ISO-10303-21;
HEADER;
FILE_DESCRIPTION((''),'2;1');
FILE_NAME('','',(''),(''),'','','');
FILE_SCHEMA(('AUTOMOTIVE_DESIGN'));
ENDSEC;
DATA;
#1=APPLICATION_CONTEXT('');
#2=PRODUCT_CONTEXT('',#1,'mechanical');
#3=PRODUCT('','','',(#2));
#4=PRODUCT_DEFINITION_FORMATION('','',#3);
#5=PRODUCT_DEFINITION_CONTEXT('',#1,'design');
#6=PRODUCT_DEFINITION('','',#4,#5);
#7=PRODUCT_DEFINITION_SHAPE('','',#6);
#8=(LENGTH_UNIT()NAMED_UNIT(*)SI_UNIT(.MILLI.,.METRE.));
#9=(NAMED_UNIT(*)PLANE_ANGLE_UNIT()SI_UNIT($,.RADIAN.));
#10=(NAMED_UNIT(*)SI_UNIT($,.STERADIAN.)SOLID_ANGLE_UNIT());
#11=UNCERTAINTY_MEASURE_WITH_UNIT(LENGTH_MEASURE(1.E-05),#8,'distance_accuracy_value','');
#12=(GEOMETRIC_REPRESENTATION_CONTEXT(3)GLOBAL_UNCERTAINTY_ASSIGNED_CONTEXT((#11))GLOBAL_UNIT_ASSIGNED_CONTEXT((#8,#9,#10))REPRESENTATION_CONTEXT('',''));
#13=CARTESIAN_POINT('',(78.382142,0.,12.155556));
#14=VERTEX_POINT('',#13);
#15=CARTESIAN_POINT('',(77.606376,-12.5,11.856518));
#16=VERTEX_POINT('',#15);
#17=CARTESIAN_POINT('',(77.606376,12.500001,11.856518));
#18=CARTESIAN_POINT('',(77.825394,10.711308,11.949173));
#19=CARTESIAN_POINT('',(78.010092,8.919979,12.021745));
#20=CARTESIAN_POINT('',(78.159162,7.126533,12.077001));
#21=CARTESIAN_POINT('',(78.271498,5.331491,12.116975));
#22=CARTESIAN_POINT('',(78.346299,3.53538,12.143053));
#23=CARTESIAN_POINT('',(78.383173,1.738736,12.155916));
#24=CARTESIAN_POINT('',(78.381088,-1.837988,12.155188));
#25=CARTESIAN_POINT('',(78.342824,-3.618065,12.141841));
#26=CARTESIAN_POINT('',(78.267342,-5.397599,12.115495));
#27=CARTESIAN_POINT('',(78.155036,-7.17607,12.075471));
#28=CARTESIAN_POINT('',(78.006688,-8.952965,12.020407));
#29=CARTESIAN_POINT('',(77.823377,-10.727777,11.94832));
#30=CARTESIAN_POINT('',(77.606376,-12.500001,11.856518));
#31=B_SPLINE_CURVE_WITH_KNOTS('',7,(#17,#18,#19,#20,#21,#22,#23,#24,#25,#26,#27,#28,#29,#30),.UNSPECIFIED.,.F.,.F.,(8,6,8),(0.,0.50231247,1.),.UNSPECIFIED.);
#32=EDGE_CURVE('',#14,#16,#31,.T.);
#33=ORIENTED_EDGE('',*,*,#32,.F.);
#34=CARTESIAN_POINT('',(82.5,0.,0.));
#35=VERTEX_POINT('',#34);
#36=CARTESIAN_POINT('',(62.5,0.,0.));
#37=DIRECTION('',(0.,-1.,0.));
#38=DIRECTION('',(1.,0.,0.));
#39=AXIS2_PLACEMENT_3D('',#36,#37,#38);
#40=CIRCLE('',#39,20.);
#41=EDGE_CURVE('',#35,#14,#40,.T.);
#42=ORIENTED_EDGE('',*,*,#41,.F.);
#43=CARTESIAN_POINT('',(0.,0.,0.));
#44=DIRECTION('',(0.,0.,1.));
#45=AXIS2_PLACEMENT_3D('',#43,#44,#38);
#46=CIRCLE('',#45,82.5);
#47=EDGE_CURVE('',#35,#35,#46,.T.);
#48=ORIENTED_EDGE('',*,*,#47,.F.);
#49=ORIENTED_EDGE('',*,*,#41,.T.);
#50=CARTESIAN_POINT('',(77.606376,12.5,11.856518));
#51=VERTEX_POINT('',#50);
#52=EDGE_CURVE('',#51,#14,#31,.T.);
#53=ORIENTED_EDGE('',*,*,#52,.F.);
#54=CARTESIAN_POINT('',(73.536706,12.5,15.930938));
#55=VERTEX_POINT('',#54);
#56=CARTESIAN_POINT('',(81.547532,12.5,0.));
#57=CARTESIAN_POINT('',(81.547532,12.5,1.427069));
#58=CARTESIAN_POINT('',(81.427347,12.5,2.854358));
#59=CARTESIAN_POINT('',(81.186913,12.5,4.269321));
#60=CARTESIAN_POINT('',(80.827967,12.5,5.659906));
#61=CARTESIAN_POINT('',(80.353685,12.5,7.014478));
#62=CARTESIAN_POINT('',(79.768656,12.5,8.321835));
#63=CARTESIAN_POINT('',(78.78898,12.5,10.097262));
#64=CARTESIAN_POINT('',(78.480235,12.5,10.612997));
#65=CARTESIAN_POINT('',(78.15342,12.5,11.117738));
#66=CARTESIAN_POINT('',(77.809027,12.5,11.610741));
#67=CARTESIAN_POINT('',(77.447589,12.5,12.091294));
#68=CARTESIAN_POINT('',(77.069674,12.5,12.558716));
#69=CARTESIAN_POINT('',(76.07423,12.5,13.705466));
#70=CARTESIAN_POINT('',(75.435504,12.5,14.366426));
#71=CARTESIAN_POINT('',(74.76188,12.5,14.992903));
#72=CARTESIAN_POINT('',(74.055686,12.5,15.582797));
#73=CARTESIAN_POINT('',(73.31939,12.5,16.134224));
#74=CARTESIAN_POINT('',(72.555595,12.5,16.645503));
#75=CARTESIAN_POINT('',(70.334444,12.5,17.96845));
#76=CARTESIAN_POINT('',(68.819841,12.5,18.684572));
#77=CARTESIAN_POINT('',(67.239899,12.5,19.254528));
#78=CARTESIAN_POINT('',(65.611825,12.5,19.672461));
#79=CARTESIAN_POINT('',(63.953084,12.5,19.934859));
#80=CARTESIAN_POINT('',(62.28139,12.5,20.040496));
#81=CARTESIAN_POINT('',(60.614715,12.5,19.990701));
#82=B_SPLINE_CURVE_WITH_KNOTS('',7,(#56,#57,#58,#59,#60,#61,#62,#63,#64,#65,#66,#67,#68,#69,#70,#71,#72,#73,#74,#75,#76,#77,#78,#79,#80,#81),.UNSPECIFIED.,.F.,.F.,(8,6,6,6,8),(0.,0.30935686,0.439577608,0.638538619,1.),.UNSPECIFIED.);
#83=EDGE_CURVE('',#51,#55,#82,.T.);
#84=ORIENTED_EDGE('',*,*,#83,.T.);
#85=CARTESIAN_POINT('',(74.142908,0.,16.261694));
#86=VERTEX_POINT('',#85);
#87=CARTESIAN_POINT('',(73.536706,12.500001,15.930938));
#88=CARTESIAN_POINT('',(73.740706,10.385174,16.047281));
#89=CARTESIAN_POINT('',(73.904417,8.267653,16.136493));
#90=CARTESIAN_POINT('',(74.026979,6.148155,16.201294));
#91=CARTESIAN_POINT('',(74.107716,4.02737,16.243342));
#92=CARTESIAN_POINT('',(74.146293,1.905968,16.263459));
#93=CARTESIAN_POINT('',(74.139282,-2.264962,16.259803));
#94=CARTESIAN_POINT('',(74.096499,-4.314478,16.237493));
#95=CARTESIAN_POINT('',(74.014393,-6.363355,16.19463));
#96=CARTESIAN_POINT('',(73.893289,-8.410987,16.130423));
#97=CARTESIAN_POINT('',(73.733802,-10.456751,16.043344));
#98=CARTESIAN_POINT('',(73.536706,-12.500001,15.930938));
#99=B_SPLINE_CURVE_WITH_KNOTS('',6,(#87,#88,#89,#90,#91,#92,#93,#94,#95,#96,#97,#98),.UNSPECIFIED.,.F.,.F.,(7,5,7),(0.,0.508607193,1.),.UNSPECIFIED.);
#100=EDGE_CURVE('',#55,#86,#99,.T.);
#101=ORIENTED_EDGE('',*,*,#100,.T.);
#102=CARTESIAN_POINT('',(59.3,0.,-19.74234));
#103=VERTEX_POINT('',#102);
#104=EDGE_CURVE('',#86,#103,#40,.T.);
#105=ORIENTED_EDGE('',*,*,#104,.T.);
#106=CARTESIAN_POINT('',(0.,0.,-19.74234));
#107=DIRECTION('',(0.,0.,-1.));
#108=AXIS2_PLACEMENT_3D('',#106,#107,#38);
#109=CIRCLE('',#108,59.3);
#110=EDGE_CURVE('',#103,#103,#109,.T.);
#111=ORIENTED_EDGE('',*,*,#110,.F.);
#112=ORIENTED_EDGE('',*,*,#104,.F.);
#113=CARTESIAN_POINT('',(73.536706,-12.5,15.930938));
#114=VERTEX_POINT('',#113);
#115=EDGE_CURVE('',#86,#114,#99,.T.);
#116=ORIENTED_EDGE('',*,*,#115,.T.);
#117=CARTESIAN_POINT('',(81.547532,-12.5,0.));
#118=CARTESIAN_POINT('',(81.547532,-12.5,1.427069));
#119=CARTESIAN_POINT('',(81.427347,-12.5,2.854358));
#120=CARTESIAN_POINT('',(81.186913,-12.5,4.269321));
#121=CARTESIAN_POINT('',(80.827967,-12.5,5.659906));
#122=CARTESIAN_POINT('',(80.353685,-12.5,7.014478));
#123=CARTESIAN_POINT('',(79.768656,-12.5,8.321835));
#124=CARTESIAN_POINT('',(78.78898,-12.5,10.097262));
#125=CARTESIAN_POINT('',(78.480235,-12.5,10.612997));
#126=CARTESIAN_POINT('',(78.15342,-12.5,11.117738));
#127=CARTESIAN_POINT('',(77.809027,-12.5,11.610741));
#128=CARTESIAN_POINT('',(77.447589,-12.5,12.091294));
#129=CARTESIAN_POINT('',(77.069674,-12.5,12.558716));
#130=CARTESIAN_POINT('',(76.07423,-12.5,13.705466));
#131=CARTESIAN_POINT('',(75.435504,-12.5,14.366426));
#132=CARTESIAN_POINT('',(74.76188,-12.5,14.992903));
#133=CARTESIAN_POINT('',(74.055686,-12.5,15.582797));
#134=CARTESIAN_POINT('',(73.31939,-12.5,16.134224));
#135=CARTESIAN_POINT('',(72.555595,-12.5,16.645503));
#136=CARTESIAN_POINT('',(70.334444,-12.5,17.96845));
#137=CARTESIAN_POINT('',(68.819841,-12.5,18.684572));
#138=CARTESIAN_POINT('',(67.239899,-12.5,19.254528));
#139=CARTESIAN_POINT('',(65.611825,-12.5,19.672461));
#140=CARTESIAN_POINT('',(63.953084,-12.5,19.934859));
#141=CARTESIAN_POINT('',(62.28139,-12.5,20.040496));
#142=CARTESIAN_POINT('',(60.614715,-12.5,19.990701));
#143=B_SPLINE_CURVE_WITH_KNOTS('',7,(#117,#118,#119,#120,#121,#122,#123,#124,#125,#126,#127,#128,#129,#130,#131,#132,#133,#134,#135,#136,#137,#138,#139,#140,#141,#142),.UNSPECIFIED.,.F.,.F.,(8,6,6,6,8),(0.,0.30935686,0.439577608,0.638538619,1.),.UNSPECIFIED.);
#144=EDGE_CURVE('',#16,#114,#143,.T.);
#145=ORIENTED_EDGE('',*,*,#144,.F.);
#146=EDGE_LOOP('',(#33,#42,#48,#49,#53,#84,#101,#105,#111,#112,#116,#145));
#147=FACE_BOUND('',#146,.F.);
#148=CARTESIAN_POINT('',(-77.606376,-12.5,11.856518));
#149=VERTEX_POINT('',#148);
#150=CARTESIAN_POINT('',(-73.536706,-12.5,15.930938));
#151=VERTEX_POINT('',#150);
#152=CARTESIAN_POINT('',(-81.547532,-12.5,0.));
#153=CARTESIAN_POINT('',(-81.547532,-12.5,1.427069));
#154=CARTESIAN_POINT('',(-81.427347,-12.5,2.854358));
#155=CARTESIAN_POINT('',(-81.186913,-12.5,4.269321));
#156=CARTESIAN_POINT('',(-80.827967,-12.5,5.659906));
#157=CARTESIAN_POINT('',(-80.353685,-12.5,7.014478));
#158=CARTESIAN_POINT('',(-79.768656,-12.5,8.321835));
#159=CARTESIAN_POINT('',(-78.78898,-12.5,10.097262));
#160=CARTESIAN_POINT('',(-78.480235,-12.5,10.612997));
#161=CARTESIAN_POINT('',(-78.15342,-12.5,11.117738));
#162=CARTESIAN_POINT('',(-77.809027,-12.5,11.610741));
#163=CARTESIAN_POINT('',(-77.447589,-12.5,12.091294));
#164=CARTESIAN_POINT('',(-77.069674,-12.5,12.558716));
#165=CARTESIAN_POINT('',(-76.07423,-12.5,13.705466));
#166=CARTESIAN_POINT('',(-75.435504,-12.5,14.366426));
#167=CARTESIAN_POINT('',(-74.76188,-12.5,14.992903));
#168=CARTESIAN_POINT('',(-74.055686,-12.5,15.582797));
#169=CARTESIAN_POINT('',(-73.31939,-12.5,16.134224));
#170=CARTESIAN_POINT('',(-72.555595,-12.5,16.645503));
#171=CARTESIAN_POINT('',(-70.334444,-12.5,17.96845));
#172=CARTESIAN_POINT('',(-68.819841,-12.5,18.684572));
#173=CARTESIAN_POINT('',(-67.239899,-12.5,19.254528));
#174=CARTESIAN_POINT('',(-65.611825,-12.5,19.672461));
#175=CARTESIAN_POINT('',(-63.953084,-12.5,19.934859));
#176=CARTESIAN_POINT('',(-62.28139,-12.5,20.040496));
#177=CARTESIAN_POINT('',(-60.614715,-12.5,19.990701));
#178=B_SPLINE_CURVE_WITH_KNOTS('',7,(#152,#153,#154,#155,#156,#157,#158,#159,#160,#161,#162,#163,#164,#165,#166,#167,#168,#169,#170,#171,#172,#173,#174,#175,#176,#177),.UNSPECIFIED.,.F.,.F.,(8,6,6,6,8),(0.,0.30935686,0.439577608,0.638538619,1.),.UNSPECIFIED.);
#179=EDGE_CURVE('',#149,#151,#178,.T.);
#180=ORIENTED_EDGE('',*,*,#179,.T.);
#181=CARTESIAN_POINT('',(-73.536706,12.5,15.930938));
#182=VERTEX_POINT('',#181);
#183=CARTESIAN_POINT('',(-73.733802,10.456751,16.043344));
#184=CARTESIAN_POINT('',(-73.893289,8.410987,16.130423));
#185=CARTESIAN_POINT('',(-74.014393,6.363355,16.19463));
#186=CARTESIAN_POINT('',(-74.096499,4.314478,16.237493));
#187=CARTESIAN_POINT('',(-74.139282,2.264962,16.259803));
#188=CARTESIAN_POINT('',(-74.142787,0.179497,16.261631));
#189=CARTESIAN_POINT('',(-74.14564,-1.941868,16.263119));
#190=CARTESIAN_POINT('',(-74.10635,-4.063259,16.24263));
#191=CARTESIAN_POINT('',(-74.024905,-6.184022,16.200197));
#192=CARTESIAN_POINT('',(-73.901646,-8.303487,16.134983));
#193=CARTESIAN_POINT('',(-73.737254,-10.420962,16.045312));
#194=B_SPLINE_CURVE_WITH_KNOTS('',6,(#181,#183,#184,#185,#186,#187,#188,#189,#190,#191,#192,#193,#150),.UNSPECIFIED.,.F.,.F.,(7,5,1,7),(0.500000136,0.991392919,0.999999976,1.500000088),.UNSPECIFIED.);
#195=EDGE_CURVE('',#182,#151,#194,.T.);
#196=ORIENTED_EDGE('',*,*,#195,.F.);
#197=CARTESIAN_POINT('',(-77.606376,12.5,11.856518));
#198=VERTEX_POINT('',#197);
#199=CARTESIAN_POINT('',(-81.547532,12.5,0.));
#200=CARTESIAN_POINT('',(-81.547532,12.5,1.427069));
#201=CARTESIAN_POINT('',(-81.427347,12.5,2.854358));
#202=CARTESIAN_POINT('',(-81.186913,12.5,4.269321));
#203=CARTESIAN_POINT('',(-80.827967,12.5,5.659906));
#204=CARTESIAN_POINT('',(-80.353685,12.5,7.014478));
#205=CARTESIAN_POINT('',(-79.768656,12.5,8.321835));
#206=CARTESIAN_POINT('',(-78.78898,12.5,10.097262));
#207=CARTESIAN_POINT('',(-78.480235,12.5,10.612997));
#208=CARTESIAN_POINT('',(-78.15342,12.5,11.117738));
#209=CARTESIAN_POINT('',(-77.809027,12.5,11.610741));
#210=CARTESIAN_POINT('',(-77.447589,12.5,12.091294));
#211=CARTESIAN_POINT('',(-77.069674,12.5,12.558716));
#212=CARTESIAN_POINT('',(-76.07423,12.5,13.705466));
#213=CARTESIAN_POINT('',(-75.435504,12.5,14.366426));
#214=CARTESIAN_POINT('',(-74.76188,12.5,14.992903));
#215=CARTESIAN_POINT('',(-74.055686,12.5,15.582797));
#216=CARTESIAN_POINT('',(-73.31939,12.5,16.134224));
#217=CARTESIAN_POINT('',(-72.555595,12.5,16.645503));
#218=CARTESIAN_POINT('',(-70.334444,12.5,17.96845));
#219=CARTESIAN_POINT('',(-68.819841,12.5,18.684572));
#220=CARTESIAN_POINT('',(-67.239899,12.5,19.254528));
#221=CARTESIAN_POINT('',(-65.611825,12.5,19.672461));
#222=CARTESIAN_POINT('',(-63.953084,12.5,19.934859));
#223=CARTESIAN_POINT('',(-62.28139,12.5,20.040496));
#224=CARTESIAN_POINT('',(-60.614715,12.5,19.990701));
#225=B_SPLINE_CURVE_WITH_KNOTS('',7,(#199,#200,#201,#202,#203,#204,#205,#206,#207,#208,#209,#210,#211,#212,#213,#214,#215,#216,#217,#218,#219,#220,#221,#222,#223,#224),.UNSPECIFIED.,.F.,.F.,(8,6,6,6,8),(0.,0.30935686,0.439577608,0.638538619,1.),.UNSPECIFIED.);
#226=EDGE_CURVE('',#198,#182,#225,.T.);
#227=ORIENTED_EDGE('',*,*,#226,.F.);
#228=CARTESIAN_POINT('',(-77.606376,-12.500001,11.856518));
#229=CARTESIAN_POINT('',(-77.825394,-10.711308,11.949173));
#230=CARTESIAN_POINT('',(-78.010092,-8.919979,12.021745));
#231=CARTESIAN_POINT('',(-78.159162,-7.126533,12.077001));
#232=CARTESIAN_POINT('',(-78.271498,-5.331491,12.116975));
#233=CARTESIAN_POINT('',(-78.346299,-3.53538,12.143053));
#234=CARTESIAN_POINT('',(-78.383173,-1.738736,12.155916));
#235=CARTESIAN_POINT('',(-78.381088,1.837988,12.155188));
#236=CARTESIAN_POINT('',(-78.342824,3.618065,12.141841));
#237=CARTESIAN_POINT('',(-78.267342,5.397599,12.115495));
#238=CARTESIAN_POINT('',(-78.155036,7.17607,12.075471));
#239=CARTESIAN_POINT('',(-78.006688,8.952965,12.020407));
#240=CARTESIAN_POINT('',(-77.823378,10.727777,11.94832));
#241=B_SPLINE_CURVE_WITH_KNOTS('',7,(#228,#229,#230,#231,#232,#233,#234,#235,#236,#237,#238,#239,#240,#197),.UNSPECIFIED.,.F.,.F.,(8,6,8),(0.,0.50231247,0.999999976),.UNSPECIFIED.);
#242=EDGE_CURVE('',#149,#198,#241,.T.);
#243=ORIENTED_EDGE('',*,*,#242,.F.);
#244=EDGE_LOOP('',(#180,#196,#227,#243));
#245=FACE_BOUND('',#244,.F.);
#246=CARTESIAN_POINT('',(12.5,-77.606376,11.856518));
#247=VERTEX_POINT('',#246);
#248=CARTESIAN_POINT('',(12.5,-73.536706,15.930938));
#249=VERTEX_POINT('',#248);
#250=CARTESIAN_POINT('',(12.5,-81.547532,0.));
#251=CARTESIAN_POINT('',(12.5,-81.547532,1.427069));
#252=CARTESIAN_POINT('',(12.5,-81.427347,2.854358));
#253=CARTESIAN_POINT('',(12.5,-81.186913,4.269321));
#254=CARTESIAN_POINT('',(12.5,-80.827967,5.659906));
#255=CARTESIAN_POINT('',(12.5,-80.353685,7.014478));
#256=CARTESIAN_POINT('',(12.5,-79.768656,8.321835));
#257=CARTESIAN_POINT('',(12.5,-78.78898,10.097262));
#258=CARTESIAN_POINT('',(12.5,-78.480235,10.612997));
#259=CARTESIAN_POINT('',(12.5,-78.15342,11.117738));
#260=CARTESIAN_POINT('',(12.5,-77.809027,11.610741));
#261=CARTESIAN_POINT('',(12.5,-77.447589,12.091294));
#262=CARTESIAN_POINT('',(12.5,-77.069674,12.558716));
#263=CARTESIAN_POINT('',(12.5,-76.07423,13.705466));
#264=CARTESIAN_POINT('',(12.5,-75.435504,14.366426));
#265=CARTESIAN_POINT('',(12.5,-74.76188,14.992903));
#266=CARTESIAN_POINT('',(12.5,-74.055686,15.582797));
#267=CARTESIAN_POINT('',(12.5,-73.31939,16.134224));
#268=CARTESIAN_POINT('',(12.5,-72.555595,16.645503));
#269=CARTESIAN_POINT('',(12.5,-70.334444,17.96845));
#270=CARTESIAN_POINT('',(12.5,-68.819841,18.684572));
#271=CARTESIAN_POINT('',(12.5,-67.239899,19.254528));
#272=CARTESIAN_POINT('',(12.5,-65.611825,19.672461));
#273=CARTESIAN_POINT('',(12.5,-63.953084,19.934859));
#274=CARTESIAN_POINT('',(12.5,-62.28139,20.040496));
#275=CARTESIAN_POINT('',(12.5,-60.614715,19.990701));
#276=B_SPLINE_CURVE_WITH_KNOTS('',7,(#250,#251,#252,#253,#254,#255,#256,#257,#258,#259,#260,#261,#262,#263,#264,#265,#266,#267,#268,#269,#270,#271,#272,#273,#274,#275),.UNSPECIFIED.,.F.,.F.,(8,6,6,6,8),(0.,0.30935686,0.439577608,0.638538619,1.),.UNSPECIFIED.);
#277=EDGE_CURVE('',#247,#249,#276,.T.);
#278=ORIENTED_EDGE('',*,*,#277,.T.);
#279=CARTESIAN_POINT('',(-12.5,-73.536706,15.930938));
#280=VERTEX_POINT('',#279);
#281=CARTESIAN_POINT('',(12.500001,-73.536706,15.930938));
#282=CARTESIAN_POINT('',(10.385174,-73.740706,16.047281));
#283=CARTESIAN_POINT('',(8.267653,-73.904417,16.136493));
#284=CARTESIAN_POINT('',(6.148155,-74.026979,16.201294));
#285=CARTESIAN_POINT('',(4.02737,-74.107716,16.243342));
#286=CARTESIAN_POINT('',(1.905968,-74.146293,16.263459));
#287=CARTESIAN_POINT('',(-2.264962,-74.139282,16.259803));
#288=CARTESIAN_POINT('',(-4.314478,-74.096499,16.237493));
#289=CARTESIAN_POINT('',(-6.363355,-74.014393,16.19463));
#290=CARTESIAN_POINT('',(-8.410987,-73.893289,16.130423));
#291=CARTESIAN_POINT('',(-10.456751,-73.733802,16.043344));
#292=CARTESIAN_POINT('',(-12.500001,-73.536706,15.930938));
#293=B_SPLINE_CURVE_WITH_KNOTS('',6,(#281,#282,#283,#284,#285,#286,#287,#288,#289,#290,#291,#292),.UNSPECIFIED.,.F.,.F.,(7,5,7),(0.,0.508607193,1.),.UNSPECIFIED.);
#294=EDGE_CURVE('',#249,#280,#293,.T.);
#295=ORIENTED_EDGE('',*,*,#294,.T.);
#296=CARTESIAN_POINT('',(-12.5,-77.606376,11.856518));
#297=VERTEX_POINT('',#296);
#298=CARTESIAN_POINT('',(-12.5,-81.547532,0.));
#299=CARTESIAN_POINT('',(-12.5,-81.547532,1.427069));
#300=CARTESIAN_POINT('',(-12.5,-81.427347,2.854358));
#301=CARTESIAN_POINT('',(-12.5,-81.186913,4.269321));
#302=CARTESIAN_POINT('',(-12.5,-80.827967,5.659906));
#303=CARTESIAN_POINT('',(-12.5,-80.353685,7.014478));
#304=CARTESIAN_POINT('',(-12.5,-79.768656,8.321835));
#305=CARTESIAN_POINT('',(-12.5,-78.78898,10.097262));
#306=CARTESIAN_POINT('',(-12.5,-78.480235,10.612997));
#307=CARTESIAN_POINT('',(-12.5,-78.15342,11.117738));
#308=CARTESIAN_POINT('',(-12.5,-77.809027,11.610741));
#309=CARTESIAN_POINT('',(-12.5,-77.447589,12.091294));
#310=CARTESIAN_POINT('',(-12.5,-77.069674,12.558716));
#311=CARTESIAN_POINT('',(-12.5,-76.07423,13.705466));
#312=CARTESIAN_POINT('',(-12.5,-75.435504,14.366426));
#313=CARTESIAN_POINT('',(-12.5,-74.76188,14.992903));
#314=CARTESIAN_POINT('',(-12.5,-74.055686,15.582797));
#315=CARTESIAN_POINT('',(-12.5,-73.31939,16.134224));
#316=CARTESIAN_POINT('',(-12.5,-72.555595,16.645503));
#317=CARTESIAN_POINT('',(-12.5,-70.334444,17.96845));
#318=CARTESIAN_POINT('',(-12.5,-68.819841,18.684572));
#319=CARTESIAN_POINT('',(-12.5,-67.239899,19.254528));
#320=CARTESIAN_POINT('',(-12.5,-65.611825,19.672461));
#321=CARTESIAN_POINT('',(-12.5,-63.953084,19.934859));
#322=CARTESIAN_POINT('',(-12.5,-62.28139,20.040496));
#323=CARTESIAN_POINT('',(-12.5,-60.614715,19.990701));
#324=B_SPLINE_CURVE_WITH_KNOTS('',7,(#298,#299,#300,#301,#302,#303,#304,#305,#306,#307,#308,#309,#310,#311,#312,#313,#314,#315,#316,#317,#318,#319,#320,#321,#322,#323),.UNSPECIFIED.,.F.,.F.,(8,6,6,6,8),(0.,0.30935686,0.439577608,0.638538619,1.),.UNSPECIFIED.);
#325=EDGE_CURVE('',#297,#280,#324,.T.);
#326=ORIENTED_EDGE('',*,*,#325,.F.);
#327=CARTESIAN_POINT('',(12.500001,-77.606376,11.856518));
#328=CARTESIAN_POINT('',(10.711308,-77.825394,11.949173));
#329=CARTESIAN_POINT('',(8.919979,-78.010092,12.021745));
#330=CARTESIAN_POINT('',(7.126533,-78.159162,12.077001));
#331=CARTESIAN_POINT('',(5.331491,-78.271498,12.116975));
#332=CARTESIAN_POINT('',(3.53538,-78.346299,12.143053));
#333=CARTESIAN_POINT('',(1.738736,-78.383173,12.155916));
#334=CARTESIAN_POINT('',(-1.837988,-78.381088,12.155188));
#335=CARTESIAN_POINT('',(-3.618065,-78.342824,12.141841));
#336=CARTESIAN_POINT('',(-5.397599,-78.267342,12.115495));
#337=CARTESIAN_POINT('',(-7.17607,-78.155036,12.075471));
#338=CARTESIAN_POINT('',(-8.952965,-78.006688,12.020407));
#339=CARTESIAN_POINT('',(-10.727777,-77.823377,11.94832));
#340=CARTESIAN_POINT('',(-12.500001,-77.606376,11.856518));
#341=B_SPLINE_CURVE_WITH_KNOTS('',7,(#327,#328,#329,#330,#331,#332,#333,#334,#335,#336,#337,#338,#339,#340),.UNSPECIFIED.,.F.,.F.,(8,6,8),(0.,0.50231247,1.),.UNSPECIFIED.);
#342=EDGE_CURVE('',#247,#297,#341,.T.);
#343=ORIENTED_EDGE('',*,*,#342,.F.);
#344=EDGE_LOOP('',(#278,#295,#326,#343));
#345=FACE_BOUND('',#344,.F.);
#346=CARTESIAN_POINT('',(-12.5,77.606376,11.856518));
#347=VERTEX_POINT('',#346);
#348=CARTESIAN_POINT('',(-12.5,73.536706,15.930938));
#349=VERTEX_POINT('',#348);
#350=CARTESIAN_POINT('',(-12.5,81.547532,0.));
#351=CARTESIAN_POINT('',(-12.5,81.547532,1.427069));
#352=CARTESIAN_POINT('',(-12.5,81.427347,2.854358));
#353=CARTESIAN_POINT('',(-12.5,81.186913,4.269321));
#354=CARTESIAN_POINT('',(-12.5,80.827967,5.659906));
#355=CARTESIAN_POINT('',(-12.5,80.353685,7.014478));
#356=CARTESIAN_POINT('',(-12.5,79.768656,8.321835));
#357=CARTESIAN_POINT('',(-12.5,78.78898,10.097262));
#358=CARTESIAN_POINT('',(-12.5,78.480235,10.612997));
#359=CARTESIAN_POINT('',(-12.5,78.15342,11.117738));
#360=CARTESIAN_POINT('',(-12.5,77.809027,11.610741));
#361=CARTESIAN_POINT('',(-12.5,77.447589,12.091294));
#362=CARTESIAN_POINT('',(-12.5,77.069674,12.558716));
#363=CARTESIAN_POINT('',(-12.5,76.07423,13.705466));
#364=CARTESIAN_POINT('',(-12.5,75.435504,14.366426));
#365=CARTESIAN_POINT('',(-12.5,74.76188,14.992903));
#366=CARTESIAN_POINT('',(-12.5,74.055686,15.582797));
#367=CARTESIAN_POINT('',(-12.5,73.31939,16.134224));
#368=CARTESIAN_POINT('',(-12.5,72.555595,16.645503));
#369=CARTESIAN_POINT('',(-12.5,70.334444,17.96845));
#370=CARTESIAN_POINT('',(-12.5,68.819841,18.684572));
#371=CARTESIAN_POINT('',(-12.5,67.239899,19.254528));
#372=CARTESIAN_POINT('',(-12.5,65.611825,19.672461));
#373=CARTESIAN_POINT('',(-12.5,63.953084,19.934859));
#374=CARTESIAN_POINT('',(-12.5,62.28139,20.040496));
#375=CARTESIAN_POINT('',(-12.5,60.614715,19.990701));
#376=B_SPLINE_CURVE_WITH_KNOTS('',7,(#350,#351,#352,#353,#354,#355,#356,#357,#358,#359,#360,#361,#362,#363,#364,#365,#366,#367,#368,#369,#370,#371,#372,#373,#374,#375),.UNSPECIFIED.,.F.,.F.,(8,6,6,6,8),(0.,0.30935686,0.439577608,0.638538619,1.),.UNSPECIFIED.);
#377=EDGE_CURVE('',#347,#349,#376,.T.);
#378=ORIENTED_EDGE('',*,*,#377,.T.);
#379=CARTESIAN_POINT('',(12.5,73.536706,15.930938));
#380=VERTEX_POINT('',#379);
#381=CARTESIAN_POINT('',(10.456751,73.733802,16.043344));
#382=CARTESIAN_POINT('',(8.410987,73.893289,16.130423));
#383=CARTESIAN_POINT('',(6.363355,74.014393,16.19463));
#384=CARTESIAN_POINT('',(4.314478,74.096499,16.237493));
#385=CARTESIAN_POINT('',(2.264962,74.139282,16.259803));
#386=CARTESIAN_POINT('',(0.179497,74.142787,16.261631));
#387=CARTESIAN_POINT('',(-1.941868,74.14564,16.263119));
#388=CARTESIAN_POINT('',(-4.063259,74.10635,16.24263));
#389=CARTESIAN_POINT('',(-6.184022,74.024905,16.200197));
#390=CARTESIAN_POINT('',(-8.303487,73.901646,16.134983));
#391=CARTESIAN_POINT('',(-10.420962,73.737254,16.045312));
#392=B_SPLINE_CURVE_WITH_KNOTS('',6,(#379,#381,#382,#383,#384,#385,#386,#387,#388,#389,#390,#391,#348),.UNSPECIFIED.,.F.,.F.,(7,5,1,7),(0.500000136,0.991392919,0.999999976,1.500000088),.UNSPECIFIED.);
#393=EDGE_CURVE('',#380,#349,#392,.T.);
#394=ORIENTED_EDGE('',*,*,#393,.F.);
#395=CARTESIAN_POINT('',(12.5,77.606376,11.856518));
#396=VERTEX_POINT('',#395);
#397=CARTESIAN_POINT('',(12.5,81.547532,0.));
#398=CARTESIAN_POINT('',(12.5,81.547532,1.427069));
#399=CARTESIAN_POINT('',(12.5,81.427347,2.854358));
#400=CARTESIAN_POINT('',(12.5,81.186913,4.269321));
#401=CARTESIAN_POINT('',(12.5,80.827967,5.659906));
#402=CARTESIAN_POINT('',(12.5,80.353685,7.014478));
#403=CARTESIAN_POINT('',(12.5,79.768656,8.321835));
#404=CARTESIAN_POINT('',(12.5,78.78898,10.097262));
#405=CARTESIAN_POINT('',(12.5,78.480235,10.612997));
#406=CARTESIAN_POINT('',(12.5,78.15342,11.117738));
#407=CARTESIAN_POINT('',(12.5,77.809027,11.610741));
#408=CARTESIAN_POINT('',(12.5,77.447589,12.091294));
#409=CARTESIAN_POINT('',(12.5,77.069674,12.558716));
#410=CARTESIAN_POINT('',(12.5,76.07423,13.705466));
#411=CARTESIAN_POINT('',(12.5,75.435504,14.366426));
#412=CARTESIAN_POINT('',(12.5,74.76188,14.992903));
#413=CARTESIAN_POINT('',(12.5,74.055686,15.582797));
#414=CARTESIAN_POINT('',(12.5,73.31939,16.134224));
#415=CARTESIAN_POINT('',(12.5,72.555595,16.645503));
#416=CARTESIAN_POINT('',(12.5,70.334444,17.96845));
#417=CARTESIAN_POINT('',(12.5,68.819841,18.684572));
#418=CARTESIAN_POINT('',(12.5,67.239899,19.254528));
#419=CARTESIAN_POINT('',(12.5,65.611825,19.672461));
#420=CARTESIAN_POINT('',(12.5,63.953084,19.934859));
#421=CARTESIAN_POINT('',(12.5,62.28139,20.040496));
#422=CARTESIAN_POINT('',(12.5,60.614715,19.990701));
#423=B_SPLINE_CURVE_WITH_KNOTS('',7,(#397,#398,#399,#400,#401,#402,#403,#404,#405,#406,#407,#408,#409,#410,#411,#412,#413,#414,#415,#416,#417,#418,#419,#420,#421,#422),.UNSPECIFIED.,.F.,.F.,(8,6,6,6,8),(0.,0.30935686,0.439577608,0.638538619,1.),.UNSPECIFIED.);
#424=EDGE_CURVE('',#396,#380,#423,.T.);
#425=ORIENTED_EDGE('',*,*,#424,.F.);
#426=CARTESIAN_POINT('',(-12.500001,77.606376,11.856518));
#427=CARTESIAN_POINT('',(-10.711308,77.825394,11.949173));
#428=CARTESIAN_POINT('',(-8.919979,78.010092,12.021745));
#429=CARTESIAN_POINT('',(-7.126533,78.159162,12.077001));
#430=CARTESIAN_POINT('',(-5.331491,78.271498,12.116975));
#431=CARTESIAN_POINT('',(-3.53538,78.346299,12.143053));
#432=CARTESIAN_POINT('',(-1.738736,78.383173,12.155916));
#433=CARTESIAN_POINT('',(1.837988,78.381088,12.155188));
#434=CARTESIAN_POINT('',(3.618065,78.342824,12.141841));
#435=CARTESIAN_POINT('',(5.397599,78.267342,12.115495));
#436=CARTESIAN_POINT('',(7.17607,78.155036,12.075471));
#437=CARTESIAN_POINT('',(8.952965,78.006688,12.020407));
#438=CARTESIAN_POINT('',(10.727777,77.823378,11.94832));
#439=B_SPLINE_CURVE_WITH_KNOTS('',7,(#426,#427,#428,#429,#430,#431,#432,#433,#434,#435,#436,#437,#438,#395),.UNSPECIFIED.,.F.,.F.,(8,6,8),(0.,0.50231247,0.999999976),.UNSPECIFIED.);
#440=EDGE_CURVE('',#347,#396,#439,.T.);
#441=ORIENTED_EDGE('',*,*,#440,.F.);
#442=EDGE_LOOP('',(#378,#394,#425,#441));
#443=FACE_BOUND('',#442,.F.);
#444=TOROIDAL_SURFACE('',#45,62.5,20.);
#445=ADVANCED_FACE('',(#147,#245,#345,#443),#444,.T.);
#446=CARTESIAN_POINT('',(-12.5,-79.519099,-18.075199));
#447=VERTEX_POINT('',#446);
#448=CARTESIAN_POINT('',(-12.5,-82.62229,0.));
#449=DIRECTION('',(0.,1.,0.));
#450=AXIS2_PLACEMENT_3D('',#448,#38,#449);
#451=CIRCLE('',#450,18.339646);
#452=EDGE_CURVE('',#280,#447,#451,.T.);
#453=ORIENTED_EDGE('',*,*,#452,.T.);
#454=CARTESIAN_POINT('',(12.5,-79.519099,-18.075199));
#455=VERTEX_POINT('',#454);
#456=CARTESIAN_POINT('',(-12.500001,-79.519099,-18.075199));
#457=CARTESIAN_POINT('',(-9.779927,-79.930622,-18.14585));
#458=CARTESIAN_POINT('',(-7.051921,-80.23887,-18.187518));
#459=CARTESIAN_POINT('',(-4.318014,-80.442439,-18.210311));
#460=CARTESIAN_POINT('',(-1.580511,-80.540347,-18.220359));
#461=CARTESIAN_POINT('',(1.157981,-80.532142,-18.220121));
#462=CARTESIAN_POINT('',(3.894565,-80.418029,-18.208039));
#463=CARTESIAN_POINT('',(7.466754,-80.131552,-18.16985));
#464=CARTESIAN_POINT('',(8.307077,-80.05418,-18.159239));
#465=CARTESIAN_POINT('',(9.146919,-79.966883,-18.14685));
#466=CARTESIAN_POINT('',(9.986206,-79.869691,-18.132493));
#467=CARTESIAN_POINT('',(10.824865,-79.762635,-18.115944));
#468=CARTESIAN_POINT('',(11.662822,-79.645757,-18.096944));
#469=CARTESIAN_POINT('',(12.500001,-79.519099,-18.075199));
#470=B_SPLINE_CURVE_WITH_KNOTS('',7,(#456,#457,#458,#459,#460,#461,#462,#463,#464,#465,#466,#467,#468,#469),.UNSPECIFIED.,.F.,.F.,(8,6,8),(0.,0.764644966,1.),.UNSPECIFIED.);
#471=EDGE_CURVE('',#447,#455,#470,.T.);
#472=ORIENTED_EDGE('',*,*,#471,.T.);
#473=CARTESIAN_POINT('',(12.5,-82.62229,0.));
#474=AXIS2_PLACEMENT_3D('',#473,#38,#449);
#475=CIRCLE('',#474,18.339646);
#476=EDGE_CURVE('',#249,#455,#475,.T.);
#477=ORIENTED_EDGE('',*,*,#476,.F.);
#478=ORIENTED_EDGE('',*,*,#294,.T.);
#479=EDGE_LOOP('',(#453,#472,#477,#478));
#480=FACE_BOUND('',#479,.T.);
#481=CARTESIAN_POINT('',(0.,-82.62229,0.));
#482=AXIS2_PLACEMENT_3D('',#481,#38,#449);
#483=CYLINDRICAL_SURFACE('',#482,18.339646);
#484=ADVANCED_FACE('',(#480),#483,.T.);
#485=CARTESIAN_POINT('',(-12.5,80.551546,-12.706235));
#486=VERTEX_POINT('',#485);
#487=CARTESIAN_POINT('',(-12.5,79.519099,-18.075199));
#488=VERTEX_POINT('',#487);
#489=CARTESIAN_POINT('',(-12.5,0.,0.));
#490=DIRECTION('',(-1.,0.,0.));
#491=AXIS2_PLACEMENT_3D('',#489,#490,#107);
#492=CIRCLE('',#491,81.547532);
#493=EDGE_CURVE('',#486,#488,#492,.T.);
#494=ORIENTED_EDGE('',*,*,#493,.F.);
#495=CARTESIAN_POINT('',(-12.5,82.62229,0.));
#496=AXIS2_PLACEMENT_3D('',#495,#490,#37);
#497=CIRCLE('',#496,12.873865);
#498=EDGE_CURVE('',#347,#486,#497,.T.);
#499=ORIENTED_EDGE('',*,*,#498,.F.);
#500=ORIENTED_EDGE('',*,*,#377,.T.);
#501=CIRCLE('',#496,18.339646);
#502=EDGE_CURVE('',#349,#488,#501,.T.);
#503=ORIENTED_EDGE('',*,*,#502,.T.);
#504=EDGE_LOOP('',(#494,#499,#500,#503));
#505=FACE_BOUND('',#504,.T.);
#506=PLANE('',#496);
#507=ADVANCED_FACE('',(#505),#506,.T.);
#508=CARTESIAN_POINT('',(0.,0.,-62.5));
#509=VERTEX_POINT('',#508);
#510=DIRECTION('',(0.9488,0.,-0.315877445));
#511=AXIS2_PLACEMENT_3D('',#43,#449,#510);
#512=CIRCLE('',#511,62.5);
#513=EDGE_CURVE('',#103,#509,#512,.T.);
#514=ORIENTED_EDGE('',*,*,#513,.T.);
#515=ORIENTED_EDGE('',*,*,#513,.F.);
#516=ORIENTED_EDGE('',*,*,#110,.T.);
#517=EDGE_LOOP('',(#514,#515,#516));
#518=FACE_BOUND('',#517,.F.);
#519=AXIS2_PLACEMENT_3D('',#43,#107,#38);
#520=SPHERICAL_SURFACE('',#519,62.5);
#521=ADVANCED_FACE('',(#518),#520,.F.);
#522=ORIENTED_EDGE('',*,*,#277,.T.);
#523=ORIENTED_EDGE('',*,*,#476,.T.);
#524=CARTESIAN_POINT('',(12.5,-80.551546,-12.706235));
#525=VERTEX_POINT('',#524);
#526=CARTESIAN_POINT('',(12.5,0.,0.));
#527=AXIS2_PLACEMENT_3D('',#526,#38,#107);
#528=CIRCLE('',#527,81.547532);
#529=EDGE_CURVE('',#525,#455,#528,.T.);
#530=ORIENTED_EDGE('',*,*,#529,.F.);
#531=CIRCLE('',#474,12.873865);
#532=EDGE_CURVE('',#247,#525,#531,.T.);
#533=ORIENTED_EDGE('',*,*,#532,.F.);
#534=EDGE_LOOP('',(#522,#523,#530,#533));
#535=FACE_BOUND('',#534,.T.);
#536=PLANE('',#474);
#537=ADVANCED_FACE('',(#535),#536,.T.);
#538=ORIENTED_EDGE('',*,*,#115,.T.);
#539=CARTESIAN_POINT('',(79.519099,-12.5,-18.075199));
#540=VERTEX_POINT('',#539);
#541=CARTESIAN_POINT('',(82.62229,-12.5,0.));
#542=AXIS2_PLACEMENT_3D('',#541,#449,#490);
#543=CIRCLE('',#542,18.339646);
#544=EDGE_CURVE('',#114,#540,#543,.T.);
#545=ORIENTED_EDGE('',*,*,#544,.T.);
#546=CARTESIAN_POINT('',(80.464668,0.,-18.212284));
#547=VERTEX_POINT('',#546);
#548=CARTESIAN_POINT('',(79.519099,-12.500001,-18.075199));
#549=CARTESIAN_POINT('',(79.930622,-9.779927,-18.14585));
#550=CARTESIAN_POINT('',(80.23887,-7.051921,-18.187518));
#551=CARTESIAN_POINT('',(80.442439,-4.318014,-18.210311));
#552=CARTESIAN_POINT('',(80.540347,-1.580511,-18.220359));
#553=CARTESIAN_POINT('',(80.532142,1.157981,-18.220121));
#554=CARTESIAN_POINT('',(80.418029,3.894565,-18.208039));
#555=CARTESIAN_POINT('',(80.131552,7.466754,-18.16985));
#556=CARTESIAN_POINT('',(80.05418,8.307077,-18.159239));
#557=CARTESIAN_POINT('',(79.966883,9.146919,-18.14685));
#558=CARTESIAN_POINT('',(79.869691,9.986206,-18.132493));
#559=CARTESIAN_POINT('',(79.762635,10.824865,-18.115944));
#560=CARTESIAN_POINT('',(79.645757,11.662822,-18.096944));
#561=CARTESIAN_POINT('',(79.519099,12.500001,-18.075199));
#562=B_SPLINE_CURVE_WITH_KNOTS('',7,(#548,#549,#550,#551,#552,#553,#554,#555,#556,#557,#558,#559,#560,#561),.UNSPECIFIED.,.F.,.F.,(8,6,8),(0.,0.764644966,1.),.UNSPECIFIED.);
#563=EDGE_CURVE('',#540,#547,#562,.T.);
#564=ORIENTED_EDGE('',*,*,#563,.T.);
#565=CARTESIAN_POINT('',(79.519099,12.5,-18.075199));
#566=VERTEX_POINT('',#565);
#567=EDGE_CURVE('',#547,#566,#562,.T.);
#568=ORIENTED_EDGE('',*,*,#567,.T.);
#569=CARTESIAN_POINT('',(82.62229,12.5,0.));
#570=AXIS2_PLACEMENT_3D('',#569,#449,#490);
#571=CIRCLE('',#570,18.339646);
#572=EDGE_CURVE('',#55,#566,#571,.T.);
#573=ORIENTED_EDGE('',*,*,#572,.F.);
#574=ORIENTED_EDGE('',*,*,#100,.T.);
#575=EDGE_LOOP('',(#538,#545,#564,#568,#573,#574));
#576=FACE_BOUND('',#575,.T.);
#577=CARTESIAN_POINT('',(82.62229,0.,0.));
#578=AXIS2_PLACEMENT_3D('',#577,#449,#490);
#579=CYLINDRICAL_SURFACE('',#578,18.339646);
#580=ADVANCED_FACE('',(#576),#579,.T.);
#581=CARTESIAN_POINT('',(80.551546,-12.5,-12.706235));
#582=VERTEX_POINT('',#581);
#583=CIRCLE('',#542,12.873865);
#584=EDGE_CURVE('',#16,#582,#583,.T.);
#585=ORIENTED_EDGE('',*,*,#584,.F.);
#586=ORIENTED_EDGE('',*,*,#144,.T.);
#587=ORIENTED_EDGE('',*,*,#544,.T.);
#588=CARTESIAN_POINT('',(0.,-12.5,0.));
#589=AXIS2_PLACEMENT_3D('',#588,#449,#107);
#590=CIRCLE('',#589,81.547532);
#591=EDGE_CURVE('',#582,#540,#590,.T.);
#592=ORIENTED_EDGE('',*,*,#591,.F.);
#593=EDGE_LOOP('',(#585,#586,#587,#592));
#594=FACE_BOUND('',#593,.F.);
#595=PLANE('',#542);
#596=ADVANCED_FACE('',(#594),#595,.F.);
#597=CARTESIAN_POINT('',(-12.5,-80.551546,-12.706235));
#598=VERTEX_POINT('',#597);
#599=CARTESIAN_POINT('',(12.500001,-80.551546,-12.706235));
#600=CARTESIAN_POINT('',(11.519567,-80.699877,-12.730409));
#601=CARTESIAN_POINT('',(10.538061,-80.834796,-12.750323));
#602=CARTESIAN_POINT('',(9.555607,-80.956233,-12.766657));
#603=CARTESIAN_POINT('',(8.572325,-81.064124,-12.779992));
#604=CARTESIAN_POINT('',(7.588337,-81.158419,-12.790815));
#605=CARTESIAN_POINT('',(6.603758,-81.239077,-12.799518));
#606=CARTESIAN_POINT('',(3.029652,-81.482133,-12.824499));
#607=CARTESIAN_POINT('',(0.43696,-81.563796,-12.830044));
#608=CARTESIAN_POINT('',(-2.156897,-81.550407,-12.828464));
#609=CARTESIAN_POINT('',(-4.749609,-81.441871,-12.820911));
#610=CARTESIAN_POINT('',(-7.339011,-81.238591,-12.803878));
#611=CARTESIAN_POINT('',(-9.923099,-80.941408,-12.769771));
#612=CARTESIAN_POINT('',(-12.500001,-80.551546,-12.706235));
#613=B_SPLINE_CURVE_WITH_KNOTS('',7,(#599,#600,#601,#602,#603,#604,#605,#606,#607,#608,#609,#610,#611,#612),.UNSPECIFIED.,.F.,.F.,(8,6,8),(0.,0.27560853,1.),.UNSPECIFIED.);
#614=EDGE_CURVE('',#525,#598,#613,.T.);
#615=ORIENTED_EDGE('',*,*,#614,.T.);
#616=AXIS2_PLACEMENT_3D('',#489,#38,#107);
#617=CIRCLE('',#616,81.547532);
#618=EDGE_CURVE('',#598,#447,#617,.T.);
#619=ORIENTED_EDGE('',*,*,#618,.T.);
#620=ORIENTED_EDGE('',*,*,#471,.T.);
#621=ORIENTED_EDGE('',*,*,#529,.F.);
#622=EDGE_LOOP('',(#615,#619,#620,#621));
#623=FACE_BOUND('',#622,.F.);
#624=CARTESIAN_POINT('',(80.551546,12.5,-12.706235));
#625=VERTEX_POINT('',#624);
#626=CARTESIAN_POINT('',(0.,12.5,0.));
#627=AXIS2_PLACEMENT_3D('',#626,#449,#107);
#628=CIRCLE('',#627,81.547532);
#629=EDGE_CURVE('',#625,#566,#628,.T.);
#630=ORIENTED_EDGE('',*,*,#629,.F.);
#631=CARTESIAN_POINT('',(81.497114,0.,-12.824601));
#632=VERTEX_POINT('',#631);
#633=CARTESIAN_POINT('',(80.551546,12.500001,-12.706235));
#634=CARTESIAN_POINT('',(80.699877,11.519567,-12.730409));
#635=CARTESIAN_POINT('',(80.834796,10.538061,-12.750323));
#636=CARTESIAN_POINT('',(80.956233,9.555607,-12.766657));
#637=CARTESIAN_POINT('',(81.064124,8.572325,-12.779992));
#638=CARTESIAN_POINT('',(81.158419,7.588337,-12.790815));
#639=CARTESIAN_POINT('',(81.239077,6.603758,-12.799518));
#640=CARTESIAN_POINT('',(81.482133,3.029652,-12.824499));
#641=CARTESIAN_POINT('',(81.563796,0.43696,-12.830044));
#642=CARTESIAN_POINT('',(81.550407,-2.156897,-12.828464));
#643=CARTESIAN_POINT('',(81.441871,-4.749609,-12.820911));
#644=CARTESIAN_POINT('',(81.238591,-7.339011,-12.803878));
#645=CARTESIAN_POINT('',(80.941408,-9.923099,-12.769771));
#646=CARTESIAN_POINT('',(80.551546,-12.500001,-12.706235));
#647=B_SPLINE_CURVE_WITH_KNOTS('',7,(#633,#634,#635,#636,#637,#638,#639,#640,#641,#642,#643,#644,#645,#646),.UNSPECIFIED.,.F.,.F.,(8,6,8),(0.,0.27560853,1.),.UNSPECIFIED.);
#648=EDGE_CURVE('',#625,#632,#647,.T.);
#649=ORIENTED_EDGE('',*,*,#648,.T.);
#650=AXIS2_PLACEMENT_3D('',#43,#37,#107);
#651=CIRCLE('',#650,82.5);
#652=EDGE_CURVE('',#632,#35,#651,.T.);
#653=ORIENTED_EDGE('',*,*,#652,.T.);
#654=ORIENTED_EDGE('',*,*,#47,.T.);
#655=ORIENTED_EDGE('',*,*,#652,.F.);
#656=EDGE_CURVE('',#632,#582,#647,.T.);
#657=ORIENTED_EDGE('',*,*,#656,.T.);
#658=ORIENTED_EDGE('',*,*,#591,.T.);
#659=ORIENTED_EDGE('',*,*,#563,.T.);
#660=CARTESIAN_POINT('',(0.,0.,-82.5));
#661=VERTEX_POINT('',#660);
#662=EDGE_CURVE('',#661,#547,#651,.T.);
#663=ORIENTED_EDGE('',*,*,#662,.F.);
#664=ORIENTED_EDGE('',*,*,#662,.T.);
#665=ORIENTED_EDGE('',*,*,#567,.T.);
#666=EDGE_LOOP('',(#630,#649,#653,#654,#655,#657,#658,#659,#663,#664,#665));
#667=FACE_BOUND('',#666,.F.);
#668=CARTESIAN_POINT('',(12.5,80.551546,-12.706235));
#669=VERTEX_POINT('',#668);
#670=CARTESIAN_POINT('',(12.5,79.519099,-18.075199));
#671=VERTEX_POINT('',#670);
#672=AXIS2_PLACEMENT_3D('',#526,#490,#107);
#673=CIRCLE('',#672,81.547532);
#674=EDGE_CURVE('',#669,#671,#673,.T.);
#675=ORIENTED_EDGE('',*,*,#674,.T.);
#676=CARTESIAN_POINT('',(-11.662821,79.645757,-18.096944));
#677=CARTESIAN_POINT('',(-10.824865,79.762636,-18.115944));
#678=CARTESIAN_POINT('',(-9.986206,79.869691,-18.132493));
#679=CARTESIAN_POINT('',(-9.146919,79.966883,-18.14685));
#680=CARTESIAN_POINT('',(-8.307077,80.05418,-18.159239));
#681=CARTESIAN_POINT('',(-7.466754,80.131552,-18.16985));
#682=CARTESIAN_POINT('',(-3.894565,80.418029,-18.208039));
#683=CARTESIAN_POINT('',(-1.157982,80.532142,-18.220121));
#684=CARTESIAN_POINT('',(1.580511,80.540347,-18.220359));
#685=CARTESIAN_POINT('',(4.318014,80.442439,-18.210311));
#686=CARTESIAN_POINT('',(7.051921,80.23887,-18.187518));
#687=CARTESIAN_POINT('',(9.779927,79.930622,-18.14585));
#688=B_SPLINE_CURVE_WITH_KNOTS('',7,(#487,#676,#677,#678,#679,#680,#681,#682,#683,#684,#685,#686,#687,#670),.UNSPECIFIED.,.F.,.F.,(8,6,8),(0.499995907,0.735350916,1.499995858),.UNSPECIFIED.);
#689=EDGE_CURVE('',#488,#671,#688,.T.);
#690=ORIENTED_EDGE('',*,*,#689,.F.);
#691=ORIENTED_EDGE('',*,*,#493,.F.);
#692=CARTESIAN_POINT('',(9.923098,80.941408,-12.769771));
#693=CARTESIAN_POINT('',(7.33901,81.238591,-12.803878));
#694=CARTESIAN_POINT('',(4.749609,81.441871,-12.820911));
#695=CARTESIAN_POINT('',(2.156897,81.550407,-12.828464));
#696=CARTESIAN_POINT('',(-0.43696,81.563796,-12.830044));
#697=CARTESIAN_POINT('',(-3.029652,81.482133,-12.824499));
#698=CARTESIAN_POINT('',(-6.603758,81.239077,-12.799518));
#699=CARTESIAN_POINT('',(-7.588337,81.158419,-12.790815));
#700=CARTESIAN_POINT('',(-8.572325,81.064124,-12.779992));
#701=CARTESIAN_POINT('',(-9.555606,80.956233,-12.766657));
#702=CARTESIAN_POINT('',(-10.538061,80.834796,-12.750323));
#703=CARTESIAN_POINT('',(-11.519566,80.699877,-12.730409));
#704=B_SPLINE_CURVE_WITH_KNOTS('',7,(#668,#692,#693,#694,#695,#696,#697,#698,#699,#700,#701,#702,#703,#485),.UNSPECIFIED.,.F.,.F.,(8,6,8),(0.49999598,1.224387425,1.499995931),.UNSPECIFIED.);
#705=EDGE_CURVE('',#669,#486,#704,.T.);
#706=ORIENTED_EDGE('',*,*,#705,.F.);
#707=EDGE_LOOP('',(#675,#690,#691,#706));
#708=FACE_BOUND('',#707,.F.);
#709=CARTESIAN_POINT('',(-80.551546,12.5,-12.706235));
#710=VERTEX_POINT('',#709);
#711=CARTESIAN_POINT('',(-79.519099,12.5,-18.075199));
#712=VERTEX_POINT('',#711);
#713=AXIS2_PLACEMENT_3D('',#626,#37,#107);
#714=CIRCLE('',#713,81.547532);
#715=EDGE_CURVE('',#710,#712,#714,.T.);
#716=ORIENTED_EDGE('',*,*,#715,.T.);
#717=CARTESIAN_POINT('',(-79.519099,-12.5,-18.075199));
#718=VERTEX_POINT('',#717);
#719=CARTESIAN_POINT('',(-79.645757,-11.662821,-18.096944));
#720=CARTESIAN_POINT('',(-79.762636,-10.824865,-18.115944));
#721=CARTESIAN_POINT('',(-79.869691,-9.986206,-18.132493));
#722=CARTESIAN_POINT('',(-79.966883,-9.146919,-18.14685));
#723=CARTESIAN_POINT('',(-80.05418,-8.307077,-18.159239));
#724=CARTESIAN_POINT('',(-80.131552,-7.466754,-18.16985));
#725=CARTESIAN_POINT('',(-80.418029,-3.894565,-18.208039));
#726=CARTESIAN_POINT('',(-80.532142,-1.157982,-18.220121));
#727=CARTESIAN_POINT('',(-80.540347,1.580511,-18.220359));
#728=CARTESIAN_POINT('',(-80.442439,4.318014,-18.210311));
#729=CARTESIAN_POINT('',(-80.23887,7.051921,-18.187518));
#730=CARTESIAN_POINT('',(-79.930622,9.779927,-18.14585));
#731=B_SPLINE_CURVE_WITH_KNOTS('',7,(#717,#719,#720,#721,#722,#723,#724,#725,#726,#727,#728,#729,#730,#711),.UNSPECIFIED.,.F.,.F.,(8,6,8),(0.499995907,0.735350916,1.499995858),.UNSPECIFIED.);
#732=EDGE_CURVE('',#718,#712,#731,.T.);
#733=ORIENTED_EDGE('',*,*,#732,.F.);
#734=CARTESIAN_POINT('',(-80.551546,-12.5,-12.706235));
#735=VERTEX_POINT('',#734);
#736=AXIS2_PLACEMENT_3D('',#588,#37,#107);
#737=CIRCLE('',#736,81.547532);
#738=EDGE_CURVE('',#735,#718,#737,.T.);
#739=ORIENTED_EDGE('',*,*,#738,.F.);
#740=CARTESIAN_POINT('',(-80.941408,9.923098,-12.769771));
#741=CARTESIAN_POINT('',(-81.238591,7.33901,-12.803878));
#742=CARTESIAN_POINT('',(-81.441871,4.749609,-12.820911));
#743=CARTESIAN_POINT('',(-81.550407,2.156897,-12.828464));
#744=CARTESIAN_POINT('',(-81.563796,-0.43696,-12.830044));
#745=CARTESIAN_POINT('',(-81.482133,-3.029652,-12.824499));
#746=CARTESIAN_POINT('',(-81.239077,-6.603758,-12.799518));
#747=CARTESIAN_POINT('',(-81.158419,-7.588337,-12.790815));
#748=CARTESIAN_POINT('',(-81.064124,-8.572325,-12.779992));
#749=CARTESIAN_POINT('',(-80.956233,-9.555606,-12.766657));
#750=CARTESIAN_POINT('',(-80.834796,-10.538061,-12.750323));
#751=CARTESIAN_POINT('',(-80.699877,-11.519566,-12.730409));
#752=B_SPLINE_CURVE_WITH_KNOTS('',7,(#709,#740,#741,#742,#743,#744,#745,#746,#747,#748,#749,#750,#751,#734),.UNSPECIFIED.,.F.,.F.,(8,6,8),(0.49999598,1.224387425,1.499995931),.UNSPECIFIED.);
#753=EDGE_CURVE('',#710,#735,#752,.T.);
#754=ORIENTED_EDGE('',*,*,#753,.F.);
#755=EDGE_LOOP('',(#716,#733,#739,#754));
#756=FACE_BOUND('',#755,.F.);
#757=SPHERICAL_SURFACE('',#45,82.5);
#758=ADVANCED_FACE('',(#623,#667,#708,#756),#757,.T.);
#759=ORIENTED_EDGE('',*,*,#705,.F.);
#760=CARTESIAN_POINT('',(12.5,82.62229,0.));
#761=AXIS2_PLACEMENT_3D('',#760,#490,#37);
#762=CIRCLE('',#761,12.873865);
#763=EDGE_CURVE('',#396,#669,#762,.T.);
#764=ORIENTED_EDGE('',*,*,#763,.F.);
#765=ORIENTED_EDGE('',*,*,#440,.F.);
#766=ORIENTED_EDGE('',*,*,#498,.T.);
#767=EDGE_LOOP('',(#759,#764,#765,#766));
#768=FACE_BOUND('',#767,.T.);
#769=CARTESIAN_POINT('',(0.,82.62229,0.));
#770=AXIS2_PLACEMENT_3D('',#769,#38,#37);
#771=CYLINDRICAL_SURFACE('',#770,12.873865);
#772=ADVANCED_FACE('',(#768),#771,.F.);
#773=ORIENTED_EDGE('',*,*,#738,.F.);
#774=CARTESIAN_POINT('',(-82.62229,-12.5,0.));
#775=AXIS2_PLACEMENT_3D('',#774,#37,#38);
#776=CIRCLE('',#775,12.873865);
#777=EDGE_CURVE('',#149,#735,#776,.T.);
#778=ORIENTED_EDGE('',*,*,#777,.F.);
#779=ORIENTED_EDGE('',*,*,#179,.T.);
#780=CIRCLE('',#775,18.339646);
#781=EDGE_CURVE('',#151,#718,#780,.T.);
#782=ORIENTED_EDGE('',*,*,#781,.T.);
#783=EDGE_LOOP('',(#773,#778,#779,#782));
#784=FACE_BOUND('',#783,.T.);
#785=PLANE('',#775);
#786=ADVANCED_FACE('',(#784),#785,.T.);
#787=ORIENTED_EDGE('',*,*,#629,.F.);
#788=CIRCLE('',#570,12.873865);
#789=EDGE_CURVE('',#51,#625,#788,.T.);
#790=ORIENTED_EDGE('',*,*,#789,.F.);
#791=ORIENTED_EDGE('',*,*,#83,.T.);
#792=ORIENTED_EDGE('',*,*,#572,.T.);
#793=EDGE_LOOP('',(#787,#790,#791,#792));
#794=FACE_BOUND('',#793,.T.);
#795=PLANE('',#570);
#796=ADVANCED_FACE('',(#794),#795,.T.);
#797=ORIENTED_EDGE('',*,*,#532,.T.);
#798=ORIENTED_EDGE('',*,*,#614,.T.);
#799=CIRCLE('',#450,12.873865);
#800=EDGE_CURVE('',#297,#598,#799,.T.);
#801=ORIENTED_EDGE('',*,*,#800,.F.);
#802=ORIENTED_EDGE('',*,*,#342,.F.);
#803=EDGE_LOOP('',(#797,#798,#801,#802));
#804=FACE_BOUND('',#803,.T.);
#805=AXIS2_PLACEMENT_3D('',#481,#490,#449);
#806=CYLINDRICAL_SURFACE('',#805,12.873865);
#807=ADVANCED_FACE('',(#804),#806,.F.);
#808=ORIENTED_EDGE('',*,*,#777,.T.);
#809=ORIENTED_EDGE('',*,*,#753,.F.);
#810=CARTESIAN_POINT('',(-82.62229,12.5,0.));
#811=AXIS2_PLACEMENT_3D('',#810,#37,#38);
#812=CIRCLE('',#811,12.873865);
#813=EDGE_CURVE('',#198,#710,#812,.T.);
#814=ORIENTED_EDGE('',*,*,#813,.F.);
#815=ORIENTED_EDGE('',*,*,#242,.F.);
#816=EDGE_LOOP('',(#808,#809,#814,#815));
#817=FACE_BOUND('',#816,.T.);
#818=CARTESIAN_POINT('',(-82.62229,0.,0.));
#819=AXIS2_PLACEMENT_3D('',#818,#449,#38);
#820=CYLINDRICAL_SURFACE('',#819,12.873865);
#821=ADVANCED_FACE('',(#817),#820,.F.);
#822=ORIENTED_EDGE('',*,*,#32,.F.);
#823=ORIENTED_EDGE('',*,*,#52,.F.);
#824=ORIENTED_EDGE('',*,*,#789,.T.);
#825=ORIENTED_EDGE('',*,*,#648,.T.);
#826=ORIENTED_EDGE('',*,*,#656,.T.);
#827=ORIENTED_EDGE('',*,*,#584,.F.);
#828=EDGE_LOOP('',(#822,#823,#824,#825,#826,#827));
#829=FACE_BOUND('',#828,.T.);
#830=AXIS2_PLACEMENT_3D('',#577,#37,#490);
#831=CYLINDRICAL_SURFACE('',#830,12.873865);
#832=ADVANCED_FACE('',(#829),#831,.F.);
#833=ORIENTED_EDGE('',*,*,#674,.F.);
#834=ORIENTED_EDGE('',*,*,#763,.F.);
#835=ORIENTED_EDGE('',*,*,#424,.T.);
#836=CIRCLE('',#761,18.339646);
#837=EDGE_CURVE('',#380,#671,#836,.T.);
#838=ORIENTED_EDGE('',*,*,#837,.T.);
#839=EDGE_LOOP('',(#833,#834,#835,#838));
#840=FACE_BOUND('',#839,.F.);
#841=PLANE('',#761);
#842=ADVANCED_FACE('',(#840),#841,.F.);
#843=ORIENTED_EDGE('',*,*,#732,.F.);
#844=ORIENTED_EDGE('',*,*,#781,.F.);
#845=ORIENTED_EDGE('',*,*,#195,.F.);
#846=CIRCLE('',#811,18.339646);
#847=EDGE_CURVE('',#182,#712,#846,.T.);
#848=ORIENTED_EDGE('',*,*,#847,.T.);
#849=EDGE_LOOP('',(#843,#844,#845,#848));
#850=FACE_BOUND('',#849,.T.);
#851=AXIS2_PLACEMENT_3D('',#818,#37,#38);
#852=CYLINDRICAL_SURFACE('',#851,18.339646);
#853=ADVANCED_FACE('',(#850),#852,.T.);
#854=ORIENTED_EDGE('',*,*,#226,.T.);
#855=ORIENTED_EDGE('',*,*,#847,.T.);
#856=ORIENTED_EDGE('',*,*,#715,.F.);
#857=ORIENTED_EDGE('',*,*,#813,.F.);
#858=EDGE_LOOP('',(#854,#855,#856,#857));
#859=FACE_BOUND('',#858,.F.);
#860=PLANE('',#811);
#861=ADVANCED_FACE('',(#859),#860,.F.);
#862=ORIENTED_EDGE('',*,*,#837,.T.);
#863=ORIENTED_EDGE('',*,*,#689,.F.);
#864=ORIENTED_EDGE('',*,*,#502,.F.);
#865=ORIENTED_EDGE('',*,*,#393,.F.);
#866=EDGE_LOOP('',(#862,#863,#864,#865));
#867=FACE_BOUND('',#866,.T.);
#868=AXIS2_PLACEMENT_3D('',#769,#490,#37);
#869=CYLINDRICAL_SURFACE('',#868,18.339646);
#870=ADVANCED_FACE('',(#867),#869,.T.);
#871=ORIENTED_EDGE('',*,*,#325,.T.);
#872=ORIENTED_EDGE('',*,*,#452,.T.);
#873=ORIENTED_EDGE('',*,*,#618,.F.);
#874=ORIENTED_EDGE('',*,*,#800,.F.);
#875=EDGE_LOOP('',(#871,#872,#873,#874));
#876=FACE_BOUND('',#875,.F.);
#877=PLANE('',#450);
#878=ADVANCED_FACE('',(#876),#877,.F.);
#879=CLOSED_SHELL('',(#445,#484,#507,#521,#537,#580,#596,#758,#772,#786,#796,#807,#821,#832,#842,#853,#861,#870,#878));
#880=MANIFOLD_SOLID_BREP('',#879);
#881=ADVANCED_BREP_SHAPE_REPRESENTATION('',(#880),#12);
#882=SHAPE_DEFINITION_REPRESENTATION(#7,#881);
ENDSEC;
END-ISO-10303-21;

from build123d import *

# Parameters (mm, degrees)
F2_R     = 18.3396458196
F2_R_2   = 12.8738649412
F3_DEPTH = 12.5
F4_COUNT = 4
F4_ANGLE = 270


with BuildPart() as f1:
    # F0 (on Front) → F1 (revolve)
    with BuildSketch(Plane.XZ):
        with BuildLine():
            ThreePointArc((59.3, -19.7423402868), (36.5537531047, -50.6958887284), (0, -62.5))
            Line((0, -62.5), (0, -82.5))
            ThreePointArc((0, -82.5), (58.3363094479, -58.3363094479), (82.5, 0))
            ThreePointArc((82.5, 0), (49.5385186032, 15.2315462117), (59.3, -19.7423402868))
        make_face()
    revolve(axis=Axis((0, 0, 14.3070674052), (0, 0, -1)))

    # F2 (on Front) → F3 (join, symmetric)
    with BuildSketch(Plane.XZ):
        with Locations((-82.6222896576, 0)):
            Circle(F2_R)
        with Locations((-82.6222896576, 0)):
            Circle(F2_R_2, mode=Mode.SUBTRACT)
    extrude(amount=F3_DEPTH, both=True)

    # F4: F1 ×4 about axis
    f4_axis = Axis((0, 0, 14.3070674052), (0, 0, -1))


with BuildPart() as f1_1:
    add(f1.part)
    for i in range(1, F4_COUNT):
        add(f1.part.rotate(f4_axis, i * F4_ANGLE / (F4_COUNT - 1)))


solid = f1_1.part
